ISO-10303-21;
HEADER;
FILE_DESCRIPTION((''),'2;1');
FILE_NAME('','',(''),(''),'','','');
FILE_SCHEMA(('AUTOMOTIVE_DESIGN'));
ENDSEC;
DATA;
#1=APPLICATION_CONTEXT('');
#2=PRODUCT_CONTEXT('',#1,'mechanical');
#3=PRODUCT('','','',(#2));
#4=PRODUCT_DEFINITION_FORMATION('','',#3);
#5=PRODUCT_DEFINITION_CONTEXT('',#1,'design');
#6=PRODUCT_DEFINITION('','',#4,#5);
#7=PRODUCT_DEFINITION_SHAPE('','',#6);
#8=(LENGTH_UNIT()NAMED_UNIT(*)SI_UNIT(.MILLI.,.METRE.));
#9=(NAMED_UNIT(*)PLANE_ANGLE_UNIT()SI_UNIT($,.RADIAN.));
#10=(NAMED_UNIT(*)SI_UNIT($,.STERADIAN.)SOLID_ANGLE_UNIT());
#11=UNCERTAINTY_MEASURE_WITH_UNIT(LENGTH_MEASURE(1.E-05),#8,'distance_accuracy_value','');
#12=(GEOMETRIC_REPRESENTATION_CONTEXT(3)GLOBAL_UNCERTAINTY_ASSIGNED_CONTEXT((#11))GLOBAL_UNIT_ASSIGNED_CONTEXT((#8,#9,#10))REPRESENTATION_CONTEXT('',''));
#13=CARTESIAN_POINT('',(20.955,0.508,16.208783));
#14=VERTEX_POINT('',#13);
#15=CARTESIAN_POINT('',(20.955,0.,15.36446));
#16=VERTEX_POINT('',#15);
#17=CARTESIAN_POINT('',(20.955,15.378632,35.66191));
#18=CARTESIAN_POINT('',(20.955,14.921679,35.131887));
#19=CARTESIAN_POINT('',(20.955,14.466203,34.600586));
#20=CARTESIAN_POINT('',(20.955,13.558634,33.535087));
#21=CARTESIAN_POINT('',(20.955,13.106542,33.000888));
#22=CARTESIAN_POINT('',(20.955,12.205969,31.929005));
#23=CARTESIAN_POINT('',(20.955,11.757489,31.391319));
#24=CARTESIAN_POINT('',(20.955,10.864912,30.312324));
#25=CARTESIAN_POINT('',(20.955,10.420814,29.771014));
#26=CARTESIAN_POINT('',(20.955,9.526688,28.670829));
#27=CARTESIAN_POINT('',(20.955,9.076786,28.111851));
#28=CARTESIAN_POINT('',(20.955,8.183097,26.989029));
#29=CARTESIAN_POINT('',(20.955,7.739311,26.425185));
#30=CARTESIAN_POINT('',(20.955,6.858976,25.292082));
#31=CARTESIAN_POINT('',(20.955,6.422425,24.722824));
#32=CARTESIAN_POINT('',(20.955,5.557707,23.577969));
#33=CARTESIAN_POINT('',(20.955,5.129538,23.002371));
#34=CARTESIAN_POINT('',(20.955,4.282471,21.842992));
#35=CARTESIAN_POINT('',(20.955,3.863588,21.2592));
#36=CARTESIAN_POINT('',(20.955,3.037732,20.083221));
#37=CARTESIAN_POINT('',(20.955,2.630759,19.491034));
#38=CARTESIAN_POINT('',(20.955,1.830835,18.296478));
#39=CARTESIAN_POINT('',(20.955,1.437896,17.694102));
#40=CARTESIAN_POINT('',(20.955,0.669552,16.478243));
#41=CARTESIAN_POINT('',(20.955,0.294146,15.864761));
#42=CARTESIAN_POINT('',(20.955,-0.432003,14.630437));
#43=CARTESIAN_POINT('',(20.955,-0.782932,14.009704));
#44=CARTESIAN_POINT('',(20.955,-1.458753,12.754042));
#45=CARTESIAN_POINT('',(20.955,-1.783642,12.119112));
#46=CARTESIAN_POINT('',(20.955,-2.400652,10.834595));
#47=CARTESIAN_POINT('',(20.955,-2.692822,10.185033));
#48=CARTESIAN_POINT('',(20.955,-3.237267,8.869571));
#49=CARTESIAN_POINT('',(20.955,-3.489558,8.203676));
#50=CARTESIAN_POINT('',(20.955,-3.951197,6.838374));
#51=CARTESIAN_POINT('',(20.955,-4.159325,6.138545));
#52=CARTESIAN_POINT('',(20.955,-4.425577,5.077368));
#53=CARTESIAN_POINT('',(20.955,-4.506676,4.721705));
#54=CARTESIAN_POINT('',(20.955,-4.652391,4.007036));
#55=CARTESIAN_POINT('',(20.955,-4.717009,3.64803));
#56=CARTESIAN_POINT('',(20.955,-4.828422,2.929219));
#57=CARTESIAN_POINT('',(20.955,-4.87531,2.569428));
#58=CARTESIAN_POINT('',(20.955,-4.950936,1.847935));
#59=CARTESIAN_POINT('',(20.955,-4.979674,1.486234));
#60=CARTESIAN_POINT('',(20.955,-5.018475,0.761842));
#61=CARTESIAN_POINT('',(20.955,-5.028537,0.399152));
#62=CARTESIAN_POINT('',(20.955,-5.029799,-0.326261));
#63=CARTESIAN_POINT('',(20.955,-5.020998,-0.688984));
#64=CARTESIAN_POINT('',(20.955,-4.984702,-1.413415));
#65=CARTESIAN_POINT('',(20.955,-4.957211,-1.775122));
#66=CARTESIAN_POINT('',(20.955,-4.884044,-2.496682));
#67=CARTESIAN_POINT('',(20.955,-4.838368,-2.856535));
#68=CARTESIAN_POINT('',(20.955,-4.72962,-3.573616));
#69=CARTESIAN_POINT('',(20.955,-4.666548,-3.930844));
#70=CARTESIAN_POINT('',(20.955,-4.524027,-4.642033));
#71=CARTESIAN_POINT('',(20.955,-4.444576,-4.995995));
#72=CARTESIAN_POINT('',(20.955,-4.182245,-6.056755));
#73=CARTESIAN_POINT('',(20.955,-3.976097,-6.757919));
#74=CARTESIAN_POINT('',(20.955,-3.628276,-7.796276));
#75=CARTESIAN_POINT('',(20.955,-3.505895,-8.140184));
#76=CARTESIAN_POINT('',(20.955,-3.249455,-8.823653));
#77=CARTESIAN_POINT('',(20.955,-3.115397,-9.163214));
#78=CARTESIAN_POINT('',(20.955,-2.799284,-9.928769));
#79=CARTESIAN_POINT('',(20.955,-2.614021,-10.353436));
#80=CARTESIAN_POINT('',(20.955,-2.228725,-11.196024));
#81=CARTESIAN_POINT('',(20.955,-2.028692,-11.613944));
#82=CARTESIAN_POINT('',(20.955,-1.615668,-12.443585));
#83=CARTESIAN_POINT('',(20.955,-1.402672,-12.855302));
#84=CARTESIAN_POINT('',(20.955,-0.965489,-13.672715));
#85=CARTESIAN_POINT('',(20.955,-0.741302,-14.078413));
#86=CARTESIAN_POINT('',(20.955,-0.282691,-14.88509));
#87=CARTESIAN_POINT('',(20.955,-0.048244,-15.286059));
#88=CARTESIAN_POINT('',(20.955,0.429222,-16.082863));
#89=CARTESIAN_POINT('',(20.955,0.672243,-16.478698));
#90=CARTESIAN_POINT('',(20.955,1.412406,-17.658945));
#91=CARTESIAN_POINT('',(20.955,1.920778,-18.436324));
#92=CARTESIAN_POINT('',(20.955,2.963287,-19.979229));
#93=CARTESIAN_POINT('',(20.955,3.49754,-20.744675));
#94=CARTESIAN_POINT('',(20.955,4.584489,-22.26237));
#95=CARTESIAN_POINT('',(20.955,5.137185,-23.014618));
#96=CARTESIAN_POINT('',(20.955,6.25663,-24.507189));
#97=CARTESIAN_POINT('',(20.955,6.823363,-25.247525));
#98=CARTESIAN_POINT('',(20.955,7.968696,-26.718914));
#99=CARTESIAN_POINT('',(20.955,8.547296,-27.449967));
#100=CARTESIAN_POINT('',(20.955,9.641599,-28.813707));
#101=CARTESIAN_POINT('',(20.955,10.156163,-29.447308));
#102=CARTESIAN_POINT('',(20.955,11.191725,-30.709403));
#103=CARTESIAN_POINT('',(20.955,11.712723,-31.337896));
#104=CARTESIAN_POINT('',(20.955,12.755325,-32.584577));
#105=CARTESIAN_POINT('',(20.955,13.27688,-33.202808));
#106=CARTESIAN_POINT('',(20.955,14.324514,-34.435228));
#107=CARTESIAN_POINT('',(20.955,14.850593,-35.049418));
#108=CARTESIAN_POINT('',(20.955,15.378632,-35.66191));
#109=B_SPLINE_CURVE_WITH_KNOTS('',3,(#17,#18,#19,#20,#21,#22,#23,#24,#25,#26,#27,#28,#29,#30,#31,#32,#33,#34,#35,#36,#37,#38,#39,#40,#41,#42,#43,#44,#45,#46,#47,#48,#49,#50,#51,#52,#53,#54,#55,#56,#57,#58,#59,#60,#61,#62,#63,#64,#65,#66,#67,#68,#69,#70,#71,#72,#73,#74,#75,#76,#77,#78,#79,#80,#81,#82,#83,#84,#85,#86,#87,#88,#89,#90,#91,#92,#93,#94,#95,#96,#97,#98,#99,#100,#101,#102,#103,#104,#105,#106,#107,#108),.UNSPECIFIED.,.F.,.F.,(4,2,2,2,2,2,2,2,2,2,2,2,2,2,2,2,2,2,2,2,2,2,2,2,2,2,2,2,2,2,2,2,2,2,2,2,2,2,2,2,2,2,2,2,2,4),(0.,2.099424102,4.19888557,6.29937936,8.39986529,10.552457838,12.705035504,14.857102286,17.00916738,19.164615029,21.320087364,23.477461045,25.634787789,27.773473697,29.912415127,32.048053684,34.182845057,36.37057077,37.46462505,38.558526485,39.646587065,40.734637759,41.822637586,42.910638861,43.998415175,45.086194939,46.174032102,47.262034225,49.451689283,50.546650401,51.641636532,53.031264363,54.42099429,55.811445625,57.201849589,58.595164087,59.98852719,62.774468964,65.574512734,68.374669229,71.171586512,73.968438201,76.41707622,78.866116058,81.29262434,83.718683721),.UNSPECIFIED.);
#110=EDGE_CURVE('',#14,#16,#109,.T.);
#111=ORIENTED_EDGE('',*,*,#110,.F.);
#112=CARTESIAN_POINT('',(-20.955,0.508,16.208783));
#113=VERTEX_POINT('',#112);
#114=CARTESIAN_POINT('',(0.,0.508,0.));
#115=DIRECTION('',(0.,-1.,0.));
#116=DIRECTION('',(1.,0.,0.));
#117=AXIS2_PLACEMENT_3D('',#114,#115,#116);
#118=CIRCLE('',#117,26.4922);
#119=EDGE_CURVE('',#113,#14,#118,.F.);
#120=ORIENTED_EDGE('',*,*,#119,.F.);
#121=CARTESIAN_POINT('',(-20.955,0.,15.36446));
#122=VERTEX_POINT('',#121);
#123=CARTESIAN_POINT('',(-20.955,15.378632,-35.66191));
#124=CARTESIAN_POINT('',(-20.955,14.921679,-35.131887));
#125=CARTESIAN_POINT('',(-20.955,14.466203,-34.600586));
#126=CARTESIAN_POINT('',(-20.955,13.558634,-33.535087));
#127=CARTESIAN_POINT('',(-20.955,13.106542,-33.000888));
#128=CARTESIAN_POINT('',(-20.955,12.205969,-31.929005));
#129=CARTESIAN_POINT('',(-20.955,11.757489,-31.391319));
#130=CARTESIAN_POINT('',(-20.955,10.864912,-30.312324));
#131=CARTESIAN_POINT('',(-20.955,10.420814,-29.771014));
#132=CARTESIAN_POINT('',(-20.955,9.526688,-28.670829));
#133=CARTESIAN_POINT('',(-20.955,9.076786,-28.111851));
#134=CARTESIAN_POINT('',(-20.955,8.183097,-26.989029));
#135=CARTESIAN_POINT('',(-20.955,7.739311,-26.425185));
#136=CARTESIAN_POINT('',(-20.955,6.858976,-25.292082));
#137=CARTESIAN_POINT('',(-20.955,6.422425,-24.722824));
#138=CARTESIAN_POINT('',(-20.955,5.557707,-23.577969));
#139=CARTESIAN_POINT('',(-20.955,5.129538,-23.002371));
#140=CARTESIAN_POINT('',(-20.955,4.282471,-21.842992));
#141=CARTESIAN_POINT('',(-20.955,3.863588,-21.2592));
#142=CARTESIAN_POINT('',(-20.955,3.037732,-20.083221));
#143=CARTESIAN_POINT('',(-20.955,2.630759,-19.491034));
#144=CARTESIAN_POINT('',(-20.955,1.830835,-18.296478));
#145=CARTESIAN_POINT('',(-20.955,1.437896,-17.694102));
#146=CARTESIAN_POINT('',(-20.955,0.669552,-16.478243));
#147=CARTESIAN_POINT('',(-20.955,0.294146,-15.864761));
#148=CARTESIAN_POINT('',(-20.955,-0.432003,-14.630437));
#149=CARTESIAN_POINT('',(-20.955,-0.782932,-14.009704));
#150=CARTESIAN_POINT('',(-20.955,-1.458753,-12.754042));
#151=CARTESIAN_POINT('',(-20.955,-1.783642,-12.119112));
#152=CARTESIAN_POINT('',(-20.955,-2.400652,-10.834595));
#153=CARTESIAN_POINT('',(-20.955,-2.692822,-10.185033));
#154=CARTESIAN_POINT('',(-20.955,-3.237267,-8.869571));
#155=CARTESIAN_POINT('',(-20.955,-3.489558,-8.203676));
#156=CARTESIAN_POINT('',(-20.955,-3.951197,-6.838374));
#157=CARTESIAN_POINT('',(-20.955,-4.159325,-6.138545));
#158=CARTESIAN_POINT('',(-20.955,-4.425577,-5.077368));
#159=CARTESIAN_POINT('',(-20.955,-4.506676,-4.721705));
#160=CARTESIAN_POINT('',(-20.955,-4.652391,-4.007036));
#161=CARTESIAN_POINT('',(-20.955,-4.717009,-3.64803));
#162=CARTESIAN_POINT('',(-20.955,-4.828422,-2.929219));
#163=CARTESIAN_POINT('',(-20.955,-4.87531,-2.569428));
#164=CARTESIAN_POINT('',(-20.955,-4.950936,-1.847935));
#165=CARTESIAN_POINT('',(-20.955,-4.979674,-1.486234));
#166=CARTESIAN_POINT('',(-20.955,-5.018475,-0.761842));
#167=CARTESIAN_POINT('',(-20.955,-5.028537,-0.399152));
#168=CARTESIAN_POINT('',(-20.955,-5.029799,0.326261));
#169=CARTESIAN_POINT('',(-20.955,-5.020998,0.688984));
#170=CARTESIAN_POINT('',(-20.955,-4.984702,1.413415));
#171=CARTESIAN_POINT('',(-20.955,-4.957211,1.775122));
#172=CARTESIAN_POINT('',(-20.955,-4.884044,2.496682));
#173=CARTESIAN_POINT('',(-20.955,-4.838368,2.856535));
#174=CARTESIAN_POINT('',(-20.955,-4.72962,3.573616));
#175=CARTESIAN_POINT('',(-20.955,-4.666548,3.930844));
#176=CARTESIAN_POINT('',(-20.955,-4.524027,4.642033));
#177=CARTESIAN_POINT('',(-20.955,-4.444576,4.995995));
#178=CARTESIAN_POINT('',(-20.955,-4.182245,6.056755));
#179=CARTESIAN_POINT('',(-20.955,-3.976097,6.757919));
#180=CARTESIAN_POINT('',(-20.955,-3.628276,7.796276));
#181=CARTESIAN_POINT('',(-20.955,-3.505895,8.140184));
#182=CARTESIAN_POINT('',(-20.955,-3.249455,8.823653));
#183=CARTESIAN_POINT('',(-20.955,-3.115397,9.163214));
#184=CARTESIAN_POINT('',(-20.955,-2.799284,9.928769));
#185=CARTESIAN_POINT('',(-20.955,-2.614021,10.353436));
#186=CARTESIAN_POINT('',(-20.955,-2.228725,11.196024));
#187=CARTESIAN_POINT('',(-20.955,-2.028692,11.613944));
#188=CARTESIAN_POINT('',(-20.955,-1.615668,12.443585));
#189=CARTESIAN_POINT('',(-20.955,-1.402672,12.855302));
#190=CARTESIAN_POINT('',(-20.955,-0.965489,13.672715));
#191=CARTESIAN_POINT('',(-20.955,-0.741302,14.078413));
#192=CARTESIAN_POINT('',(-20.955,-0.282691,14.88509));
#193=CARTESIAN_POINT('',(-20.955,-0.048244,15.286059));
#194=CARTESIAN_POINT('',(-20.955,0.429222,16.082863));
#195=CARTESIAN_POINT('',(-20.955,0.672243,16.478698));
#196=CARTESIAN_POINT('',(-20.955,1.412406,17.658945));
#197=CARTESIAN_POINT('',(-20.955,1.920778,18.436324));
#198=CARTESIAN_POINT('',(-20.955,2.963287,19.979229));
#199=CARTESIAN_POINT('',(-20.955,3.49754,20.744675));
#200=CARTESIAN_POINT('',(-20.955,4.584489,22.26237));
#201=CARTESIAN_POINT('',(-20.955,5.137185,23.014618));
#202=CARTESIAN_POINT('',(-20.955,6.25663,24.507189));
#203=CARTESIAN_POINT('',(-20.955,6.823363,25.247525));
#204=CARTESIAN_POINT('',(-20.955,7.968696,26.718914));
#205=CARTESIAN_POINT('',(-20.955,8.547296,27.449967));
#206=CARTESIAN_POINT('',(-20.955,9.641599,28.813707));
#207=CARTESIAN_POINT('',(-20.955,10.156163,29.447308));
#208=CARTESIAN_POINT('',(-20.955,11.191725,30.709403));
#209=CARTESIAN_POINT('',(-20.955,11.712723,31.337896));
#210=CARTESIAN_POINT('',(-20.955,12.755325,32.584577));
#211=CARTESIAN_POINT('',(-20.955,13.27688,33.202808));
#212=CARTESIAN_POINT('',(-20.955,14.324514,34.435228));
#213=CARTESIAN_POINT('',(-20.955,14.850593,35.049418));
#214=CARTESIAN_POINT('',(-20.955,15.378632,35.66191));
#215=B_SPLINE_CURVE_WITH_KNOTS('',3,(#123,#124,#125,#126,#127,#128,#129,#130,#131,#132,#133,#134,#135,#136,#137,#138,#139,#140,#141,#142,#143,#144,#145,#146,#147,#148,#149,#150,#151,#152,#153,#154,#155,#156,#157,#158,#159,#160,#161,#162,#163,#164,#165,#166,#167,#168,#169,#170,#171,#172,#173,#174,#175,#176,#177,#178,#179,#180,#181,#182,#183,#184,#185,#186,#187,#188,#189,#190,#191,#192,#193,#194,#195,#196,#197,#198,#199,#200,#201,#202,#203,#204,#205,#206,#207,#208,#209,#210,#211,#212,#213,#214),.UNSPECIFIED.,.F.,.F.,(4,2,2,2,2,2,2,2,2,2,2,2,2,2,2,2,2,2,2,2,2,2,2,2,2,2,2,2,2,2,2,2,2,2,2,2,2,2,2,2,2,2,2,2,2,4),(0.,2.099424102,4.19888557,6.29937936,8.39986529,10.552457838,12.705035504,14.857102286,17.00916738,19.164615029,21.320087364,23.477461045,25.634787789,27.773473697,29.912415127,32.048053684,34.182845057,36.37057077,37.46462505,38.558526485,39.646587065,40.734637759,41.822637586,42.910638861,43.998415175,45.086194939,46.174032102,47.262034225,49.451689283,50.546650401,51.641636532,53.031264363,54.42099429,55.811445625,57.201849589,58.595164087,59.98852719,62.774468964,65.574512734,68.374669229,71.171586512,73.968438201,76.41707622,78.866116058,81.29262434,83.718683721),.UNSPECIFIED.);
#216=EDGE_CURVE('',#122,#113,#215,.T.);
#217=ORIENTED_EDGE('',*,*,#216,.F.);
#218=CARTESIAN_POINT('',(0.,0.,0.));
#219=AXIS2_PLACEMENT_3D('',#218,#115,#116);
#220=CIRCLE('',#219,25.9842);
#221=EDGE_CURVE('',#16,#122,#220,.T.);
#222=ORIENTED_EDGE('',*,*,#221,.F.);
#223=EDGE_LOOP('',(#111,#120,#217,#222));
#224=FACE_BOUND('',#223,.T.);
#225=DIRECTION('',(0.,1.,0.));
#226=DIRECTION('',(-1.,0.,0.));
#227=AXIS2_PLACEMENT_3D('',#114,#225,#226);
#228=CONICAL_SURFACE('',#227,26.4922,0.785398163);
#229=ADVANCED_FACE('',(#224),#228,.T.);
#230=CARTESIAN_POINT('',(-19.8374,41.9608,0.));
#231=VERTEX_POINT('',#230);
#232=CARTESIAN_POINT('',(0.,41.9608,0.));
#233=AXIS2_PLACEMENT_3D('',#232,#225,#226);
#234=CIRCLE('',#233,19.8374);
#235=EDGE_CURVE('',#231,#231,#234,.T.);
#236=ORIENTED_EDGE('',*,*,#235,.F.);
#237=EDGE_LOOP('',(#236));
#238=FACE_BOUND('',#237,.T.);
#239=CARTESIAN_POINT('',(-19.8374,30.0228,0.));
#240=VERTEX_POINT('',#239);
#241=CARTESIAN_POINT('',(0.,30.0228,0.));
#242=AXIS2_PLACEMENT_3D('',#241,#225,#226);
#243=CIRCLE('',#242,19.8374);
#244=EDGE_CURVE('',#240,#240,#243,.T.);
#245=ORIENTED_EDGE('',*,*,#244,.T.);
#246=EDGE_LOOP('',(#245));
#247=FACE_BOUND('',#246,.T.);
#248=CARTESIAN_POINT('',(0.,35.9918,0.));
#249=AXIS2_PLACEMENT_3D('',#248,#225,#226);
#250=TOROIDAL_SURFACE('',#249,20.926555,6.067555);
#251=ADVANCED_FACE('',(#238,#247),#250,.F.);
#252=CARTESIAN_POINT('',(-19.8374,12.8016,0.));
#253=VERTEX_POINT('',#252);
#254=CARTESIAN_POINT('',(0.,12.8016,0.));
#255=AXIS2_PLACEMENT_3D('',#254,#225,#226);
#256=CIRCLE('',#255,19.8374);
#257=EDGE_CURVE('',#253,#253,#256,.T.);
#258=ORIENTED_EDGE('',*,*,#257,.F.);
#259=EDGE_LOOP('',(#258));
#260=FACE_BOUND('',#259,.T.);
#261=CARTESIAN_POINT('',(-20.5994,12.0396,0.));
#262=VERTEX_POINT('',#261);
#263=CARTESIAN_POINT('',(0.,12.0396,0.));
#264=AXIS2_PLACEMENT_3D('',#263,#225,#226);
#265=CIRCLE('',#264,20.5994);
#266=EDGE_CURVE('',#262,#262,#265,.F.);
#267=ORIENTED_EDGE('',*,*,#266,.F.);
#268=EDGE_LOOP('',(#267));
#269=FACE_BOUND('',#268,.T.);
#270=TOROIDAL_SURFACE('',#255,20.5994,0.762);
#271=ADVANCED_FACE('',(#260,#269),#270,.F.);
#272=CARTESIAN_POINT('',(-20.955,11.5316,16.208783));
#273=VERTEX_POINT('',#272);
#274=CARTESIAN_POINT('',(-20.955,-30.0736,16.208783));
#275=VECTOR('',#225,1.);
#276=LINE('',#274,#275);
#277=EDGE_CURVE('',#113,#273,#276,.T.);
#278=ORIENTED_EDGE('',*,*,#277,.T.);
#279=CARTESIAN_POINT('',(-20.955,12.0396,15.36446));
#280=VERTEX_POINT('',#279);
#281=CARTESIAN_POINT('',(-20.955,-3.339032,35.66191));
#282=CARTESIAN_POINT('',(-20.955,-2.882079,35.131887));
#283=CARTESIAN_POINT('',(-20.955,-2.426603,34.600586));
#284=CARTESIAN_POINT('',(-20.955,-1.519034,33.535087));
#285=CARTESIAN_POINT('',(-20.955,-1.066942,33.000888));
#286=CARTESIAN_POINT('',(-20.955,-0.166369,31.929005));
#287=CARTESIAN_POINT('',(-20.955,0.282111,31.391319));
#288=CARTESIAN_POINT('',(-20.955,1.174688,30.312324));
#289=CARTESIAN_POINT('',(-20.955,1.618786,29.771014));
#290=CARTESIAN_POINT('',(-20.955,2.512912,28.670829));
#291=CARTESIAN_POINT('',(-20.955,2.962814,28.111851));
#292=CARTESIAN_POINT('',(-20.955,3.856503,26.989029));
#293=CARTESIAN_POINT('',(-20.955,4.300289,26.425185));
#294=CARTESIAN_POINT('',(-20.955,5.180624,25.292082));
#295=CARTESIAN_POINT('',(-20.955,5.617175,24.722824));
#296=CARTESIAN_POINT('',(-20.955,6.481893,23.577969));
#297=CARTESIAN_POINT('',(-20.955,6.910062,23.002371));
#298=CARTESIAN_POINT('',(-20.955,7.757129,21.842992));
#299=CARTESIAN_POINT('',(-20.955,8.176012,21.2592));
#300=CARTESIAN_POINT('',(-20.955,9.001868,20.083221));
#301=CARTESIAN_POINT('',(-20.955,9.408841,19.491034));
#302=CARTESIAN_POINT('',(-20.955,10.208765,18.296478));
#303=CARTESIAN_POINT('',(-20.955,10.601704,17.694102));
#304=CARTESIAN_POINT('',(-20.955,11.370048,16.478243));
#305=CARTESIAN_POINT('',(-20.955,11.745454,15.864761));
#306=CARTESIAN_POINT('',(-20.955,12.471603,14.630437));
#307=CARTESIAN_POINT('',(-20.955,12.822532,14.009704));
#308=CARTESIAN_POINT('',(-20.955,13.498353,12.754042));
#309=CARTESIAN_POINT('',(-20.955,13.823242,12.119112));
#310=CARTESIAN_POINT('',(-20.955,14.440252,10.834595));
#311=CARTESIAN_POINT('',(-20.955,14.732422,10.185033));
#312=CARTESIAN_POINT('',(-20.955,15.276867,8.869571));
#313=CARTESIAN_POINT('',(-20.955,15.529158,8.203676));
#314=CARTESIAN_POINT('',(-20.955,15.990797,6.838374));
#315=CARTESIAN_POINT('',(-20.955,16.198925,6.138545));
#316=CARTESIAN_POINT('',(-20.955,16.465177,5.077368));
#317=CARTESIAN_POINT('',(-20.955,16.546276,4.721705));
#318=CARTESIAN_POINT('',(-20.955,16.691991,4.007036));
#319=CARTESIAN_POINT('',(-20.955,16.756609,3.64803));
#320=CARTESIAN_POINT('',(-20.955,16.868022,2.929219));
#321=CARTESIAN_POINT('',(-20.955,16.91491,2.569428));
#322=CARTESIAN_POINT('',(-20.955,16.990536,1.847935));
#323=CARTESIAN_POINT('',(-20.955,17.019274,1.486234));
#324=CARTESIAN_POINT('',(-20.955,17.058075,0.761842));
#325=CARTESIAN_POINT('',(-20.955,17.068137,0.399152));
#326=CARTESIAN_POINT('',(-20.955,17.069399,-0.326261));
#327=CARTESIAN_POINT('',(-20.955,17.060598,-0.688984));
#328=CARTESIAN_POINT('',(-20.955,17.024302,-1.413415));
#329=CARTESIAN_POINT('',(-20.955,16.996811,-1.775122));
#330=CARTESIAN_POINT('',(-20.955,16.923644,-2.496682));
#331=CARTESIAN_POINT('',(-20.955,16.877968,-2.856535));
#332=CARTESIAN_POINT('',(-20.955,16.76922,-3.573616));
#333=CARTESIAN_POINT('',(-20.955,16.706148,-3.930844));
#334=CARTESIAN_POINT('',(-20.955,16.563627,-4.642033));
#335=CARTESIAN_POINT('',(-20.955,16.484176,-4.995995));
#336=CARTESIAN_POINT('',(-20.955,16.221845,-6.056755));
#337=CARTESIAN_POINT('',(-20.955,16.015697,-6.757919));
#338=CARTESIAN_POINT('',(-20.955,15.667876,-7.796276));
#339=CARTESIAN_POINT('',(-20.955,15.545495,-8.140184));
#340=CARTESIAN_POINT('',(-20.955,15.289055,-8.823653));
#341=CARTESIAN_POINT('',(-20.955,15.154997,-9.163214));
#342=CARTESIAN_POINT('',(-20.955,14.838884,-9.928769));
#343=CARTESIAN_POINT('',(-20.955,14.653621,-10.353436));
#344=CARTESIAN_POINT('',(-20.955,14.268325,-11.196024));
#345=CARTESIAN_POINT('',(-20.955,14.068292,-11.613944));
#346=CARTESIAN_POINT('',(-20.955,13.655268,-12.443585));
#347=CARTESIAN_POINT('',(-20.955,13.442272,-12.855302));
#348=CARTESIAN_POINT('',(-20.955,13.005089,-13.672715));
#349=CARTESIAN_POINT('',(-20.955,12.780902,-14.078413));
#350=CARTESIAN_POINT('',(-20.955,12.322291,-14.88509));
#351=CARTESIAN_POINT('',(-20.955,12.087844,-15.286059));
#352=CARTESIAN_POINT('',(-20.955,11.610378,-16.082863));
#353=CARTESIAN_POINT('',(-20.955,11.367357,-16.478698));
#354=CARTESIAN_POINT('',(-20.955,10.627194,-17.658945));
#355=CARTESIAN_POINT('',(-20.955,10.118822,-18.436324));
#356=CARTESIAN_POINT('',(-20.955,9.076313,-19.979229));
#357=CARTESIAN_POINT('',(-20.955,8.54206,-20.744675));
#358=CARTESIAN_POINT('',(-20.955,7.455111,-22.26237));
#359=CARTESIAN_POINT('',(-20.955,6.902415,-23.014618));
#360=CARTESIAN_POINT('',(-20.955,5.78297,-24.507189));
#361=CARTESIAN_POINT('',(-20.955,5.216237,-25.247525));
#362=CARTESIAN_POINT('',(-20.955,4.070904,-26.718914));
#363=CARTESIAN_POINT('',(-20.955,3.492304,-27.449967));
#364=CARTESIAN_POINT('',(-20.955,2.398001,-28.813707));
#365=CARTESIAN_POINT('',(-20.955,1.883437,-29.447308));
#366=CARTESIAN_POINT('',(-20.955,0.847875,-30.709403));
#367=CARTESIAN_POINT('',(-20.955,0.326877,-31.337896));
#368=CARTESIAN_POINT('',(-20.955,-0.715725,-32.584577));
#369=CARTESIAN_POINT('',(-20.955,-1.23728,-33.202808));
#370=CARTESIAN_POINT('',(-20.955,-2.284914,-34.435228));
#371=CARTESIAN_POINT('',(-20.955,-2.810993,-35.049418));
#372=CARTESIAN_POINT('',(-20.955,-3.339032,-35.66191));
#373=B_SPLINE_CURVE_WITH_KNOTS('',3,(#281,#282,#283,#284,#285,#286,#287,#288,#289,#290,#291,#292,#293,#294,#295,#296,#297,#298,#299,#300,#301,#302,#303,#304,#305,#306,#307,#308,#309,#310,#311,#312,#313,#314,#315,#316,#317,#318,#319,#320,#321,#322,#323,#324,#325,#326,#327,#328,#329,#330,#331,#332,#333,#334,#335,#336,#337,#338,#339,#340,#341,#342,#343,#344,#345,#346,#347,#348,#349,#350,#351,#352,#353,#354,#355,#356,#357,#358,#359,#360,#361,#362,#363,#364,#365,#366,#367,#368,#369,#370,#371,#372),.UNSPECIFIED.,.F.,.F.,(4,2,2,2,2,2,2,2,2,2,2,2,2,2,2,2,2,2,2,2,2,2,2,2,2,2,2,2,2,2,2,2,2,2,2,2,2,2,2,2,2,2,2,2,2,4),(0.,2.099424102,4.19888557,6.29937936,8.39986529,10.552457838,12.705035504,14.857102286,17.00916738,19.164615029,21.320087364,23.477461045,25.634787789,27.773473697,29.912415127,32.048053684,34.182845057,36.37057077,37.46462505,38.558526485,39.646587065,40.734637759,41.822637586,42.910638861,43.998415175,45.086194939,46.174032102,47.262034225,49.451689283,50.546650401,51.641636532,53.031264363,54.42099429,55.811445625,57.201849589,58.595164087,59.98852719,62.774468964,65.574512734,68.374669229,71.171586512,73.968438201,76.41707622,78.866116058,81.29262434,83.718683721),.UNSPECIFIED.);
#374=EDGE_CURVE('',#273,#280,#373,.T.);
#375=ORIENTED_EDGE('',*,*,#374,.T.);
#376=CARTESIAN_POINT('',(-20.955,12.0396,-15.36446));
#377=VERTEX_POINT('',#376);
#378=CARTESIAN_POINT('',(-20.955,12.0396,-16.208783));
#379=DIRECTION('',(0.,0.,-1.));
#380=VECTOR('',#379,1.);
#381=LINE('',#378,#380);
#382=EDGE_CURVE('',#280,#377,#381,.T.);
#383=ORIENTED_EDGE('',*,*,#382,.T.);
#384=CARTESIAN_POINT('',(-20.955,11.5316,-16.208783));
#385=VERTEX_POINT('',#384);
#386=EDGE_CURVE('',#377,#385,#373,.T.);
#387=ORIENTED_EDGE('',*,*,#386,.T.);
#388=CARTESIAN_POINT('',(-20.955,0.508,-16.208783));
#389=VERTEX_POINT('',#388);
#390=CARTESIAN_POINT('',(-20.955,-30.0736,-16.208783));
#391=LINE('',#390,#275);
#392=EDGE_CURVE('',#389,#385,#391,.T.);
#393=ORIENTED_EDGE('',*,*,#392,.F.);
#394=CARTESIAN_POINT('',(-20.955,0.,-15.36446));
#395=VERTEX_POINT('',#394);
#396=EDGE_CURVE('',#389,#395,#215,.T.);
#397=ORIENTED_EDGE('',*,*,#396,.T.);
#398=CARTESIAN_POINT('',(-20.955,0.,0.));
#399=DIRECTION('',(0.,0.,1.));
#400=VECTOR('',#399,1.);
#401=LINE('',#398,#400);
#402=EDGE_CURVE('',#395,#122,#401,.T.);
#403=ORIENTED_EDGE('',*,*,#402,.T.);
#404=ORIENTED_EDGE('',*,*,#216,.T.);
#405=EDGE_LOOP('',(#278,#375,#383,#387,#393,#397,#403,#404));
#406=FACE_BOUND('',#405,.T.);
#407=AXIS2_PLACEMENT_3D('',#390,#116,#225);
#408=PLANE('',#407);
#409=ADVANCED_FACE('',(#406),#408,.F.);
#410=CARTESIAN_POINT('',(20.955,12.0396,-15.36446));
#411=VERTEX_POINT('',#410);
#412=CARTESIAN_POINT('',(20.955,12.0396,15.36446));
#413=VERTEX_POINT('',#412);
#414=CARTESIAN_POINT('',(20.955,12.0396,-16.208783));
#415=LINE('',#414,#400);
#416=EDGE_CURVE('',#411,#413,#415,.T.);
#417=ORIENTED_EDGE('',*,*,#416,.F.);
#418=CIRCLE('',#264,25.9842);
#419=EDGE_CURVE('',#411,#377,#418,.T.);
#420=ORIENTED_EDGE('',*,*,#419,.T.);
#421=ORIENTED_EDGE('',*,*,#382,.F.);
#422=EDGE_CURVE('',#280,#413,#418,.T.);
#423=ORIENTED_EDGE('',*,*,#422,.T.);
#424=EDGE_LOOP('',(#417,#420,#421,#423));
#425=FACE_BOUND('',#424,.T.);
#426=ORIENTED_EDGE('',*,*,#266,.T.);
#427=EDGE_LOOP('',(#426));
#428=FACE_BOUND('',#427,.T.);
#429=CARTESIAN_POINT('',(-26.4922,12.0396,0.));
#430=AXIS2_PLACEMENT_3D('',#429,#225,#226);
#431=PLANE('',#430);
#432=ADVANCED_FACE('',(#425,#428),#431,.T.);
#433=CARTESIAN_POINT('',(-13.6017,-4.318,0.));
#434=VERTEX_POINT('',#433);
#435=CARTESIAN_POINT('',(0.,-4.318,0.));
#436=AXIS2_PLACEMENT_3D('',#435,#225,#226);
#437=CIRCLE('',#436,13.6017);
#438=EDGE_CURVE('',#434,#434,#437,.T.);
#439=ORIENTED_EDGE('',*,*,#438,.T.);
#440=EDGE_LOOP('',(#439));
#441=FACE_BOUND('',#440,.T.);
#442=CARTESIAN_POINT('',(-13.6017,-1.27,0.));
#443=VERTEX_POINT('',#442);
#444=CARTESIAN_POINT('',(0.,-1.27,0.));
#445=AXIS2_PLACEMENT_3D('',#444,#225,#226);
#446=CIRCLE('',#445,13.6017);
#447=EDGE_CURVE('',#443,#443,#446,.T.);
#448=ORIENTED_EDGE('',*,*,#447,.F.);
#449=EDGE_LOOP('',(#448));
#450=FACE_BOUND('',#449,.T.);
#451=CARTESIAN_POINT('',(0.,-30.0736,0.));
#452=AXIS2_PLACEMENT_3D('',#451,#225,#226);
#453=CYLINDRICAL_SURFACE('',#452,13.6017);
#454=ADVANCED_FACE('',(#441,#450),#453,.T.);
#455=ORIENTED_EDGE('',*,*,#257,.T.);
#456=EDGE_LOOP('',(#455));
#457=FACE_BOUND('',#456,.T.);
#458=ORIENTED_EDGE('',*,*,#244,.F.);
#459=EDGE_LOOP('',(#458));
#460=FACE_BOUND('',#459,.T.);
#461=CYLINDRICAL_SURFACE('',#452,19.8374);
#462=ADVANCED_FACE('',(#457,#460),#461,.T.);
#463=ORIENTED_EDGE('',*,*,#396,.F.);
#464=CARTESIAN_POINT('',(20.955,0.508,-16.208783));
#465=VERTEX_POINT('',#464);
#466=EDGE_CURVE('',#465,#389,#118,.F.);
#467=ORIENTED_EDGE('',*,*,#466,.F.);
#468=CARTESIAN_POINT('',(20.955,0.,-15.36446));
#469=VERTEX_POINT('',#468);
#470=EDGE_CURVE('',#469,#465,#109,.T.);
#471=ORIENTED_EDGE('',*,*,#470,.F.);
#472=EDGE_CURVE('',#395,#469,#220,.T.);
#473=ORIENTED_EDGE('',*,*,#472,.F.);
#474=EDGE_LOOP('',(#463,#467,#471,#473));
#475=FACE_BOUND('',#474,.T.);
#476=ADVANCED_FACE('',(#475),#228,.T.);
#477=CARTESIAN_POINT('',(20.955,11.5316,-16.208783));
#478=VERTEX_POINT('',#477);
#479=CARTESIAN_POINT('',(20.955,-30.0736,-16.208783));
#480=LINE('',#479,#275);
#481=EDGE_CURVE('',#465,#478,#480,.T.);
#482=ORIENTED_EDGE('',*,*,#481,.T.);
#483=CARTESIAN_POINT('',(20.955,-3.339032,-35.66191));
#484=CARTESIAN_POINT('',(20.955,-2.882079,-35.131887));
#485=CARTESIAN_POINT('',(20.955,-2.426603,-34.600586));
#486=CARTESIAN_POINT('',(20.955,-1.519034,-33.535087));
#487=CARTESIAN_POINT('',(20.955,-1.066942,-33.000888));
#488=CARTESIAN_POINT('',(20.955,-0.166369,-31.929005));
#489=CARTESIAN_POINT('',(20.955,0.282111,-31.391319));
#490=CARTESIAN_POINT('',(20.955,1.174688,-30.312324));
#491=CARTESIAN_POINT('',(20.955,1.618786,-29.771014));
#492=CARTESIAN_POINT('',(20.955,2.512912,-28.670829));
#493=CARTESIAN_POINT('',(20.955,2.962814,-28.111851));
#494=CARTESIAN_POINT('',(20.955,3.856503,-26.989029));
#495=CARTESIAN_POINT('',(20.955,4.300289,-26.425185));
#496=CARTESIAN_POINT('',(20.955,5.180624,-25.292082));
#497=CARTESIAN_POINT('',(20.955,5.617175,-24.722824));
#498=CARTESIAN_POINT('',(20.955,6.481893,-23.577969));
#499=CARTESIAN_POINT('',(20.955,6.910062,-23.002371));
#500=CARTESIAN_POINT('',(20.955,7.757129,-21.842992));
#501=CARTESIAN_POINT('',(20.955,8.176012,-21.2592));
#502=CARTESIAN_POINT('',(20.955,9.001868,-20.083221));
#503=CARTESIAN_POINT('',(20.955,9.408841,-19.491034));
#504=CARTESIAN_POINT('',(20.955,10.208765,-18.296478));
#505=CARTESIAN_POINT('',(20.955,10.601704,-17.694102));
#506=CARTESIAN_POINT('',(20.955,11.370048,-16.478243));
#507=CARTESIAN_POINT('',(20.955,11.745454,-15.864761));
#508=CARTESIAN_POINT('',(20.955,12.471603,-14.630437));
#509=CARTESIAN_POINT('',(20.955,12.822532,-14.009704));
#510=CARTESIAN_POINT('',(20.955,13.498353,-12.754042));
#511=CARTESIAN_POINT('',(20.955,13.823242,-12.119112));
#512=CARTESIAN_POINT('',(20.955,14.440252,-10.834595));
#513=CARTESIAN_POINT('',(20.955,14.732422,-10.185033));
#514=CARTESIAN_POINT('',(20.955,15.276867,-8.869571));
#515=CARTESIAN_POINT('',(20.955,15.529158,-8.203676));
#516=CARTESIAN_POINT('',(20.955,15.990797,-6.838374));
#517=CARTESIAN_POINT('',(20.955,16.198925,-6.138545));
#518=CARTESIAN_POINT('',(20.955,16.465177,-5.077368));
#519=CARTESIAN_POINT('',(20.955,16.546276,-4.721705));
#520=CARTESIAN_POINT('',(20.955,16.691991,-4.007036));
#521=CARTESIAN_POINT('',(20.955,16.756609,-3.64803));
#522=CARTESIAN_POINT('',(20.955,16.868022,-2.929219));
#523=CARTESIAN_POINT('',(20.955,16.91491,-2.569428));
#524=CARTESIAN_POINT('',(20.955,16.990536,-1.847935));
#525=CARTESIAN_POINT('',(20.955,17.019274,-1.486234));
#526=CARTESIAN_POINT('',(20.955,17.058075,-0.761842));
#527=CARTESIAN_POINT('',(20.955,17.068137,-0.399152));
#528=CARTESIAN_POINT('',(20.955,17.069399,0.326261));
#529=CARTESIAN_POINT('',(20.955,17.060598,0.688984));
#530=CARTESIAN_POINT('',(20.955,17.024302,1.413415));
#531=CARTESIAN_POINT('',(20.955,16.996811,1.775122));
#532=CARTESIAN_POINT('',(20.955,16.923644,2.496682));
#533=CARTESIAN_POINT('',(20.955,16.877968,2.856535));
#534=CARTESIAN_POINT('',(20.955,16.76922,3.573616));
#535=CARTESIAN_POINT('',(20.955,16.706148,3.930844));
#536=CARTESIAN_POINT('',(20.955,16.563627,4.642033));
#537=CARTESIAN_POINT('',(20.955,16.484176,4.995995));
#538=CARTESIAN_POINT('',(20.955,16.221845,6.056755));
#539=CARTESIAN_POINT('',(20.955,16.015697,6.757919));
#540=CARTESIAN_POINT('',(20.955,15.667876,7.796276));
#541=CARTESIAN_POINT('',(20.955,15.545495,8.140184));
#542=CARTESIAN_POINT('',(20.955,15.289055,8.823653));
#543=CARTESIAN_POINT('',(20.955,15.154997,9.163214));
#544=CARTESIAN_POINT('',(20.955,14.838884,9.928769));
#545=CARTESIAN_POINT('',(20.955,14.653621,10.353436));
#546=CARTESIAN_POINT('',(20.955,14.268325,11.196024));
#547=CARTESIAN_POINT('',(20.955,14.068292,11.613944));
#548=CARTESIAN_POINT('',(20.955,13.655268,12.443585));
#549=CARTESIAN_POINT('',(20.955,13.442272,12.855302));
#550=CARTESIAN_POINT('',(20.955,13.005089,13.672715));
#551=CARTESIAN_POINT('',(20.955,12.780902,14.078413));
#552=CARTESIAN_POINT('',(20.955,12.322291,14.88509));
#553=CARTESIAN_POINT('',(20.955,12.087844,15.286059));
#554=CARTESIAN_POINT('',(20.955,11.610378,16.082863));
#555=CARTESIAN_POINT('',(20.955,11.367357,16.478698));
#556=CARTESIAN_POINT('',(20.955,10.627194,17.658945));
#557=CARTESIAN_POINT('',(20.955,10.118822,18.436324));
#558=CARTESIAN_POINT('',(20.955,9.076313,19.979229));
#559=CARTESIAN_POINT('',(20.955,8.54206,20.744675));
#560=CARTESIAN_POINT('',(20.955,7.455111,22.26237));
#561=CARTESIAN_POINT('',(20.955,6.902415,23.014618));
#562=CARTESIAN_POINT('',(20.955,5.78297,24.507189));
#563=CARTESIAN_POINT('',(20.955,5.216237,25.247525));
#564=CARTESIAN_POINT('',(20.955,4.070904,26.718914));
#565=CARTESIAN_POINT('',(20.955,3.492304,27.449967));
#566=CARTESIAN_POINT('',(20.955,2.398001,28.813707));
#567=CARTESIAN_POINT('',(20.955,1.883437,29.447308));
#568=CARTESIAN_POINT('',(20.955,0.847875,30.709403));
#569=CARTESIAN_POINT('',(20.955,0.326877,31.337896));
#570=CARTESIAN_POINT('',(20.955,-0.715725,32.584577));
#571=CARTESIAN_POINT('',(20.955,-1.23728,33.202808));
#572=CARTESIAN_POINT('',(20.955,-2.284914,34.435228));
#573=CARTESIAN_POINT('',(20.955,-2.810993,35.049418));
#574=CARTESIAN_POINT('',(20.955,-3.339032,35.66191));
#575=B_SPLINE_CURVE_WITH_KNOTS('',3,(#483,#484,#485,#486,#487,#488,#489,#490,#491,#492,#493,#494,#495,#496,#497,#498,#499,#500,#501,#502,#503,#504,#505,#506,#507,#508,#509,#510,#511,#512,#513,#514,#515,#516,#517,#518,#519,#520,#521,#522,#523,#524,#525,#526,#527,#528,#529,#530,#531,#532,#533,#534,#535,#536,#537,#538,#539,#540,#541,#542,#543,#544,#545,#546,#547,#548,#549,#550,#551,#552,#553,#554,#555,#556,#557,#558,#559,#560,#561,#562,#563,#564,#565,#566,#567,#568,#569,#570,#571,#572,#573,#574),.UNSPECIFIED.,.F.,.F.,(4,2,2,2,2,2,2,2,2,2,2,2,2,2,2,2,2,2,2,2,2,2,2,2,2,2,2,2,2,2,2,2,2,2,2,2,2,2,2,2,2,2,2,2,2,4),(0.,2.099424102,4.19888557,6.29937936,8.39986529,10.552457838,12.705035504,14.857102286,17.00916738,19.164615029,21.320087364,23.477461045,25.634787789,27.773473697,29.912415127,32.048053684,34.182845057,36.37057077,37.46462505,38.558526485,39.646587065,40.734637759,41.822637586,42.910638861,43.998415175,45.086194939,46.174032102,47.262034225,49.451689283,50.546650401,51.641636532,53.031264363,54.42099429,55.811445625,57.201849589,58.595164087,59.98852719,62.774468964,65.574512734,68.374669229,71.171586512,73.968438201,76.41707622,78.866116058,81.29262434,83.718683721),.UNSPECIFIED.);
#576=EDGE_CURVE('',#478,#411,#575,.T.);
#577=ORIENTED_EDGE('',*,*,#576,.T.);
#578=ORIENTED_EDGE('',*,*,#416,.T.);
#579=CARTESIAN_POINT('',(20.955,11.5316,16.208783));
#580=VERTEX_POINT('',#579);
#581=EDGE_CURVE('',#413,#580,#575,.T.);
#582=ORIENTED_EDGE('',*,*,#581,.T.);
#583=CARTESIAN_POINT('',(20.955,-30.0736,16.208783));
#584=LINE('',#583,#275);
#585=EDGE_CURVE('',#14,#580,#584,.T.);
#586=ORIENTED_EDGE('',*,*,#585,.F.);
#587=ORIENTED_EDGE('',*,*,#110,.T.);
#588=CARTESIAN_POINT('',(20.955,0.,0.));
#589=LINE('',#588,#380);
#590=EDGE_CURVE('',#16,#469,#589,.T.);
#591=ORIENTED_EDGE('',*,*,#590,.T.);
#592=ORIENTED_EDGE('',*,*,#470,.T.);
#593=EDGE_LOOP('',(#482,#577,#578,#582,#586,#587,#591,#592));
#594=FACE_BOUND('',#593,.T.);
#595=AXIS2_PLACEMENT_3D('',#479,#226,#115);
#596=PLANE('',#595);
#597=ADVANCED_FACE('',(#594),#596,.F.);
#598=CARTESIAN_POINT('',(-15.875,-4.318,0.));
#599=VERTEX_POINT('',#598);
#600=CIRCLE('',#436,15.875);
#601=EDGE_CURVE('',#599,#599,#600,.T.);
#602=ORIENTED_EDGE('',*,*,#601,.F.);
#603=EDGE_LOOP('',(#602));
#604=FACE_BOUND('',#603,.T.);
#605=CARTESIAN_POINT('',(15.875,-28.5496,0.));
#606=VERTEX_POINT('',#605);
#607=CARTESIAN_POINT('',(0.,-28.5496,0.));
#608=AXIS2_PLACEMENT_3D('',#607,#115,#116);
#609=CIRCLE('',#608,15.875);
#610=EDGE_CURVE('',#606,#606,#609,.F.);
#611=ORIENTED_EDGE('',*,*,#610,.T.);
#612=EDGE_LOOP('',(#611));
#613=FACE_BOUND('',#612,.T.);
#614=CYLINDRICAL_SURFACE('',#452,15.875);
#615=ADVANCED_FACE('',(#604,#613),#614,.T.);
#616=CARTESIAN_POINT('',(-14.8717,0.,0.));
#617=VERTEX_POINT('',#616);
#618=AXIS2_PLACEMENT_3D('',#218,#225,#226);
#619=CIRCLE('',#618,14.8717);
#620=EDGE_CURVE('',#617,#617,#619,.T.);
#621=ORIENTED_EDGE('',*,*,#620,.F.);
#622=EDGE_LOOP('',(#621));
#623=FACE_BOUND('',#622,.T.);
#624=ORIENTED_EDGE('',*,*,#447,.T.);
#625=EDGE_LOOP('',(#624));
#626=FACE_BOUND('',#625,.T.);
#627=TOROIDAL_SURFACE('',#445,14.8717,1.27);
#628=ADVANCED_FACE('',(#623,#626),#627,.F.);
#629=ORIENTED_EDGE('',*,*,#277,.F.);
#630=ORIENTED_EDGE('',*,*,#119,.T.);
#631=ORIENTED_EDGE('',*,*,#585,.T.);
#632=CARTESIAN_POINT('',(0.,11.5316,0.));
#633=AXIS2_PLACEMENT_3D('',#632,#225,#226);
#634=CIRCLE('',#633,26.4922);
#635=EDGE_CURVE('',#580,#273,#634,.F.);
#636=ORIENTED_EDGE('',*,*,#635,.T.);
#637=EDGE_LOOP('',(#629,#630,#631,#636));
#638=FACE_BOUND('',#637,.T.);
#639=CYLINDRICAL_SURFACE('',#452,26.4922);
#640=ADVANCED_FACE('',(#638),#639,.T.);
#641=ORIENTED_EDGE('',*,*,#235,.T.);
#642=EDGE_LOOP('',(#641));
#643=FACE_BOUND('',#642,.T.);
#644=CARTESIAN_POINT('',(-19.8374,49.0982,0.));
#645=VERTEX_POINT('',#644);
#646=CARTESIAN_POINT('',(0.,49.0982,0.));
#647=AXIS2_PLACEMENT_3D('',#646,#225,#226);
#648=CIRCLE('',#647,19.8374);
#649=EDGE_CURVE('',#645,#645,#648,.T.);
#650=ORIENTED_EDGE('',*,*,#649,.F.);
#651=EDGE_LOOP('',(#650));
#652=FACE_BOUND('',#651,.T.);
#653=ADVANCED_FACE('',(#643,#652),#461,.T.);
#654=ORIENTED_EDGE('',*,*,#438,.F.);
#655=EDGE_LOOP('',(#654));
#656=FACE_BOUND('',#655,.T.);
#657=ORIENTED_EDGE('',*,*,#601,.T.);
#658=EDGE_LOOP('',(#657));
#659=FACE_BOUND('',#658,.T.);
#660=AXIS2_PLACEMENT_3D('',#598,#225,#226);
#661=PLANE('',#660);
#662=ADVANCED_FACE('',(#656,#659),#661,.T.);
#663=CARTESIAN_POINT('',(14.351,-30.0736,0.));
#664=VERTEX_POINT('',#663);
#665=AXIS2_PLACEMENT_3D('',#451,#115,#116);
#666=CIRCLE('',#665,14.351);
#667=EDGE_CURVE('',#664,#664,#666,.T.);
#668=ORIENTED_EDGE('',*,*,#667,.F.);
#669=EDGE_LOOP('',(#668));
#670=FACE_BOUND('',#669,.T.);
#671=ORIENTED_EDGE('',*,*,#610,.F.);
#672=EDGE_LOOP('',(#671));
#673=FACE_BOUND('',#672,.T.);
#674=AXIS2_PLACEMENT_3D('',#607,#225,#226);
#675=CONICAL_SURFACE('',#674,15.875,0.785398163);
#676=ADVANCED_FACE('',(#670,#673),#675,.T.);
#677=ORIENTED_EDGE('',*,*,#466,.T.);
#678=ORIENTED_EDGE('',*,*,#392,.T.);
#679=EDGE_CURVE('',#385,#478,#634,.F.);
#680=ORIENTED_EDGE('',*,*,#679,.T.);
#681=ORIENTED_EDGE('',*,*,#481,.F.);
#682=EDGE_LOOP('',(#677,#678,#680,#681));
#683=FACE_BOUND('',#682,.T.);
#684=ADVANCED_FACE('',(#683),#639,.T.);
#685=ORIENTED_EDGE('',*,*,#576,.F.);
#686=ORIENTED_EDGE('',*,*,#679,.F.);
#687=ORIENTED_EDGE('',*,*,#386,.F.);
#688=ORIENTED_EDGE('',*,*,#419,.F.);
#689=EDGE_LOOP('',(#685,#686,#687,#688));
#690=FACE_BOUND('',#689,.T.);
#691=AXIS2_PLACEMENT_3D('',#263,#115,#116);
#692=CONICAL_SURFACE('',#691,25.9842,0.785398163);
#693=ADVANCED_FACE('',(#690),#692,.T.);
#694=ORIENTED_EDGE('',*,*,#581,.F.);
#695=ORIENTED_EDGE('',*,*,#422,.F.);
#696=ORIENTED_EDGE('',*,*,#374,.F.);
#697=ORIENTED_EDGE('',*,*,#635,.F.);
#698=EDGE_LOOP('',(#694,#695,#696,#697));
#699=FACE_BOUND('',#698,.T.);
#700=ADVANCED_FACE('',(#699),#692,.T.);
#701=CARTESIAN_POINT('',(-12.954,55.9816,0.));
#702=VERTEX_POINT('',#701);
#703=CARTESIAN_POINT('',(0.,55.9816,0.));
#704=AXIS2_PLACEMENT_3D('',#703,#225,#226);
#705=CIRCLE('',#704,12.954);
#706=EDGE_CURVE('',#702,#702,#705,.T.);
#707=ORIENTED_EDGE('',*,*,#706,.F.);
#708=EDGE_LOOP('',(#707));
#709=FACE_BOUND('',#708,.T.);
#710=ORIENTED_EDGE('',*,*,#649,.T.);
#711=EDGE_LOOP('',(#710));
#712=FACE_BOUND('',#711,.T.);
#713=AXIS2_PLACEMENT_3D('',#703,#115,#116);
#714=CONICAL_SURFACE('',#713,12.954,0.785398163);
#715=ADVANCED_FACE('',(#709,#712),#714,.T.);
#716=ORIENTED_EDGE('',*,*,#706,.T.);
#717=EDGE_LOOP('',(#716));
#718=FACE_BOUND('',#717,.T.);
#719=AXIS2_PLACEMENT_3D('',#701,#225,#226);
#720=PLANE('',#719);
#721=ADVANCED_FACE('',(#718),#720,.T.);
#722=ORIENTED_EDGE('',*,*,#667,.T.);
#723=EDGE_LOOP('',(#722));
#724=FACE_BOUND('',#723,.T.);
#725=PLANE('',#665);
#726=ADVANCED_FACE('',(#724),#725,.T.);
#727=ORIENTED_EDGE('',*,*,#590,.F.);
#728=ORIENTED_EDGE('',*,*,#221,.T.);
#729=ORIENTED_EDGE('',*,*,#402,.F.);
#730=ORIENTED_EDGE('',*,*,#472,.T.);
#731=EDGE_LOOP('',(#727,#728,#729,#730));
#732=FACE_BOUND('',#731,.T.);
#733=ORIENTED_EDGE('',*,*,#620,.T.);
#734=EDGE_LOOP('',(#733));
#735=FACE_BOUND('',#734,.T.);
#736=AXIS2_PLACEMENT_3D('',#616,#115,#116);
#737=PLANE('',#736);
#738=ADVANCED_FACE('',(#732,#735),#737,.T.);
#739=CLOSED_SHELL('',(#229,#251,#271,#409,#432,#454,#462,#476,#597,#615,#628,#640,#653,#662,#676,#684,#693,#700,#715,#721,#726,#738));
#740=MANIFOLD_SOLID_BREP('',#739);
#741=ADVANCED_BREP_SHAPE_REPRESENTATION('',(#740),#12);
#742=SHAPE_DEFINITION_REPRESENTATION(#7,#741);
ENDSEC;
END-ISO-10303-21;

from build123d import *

# Parameters (mm, degrees)
CHAMFER1_SIZE      = 0.508
CHAMFER2_SIZE      = 1.524
CUT_EXTRUDE1_DEPTH = 43.1132
FILLET1_R          = 0.762


with BuildPart() as part:
    # Sketch1 → Revolve1 (revolve)
    with BuildSketch(Plane.XY):
        with BuildLine():
            Line((0, 55.9816), (0, -30.0736))
            Line((0, -30.0736), (-15.875, -30.0736))
            Line((-15.875, -30.0736), (-15.875, -4.318))
            Line((-15.875, -4.318), (-13.6017, -4.318))
            Line((-13.6017, -4.318), (-13.6017, -1.27))
            ThreePointArc((-13.6017, -1.27), (-13.973674388, -0.371974388), (-14.8717, 0))
            Line((-14.8717, 0), (-26.4922, 0))
            Line((-26.4922, 0), (-26.4922, 12.0396))
            Line((-26.4922, 12.0396), (-19.8374, 12.0396))
            Line((-19.8374, 12.0396), (-19.8374, 30.0228))
            ThreePointArc((-19.8374, 30.0228), (-14.859, 35.9918), (-19.8374, 41.9608))
            Line((-19.8374, 41.9608), (-19.8374, 49.0982))
            Line((-19.8374, 49.0982), (-12.954, 55.9816))
            Line((-12.954, 55.9816), (0, 55.9816))
        make_face()
    revolve(axis=Axis((0, -30.0736, 0), (0, -1, 0)))

    # Chamfer1
    chamfer1_edges = [part.edges().sort_by_distance(p)[0] for p in [
        (26.4922, 12.0396, 0),
        (26.4922, 0, 0),
    ]]
    chamfer(chamfer1_edges, length=CHAMFER1_SIZE)

    # Chamfer2
    chamfer2_edges = [part.edges().sort_by_distance(p)[0] for p in [
        (15.875, -30.0736, 0),
    ]]
    chamfer(chamfer2_edges, length=CHAMFER2_SIZE)

    # Sketch2 → Cut-Extrude1 (cut, through all)
    with BuildSketch(Plane(origin=(0, 12.0396, 0), x_dir=(1, 0, 0), z_dir=(0, 1, 0))):
        with BuildLine():
            Line((-20.955, 16.208782676), (-20.955, -16.208782676))
            ThreePointArc((-20.955, -16.208782676), (-26.4922, 0), (-20.955, 16.208782676))
        make_face()
        with BuildLine():
            Line((20.955, 16.208782676), (20.955, -16.208782676))
            ThreePointArc((20.955, -16.208782676), (26.4922, 0), (20.955, 16.208782676))
        make_face()
    extrude(amount=-CUT_EXTRUDE1_DEPTH, mode=Mode.SUBTRACT)

    # Fillet1
    fillet1_edges = [part.edges().sort_by_distance(p)[0] for p in [
        (19.8374, 12.0396, 0),
    ]]
    fillet(fillet1_edges, radius=FILLET1_R)


solid = part.part
